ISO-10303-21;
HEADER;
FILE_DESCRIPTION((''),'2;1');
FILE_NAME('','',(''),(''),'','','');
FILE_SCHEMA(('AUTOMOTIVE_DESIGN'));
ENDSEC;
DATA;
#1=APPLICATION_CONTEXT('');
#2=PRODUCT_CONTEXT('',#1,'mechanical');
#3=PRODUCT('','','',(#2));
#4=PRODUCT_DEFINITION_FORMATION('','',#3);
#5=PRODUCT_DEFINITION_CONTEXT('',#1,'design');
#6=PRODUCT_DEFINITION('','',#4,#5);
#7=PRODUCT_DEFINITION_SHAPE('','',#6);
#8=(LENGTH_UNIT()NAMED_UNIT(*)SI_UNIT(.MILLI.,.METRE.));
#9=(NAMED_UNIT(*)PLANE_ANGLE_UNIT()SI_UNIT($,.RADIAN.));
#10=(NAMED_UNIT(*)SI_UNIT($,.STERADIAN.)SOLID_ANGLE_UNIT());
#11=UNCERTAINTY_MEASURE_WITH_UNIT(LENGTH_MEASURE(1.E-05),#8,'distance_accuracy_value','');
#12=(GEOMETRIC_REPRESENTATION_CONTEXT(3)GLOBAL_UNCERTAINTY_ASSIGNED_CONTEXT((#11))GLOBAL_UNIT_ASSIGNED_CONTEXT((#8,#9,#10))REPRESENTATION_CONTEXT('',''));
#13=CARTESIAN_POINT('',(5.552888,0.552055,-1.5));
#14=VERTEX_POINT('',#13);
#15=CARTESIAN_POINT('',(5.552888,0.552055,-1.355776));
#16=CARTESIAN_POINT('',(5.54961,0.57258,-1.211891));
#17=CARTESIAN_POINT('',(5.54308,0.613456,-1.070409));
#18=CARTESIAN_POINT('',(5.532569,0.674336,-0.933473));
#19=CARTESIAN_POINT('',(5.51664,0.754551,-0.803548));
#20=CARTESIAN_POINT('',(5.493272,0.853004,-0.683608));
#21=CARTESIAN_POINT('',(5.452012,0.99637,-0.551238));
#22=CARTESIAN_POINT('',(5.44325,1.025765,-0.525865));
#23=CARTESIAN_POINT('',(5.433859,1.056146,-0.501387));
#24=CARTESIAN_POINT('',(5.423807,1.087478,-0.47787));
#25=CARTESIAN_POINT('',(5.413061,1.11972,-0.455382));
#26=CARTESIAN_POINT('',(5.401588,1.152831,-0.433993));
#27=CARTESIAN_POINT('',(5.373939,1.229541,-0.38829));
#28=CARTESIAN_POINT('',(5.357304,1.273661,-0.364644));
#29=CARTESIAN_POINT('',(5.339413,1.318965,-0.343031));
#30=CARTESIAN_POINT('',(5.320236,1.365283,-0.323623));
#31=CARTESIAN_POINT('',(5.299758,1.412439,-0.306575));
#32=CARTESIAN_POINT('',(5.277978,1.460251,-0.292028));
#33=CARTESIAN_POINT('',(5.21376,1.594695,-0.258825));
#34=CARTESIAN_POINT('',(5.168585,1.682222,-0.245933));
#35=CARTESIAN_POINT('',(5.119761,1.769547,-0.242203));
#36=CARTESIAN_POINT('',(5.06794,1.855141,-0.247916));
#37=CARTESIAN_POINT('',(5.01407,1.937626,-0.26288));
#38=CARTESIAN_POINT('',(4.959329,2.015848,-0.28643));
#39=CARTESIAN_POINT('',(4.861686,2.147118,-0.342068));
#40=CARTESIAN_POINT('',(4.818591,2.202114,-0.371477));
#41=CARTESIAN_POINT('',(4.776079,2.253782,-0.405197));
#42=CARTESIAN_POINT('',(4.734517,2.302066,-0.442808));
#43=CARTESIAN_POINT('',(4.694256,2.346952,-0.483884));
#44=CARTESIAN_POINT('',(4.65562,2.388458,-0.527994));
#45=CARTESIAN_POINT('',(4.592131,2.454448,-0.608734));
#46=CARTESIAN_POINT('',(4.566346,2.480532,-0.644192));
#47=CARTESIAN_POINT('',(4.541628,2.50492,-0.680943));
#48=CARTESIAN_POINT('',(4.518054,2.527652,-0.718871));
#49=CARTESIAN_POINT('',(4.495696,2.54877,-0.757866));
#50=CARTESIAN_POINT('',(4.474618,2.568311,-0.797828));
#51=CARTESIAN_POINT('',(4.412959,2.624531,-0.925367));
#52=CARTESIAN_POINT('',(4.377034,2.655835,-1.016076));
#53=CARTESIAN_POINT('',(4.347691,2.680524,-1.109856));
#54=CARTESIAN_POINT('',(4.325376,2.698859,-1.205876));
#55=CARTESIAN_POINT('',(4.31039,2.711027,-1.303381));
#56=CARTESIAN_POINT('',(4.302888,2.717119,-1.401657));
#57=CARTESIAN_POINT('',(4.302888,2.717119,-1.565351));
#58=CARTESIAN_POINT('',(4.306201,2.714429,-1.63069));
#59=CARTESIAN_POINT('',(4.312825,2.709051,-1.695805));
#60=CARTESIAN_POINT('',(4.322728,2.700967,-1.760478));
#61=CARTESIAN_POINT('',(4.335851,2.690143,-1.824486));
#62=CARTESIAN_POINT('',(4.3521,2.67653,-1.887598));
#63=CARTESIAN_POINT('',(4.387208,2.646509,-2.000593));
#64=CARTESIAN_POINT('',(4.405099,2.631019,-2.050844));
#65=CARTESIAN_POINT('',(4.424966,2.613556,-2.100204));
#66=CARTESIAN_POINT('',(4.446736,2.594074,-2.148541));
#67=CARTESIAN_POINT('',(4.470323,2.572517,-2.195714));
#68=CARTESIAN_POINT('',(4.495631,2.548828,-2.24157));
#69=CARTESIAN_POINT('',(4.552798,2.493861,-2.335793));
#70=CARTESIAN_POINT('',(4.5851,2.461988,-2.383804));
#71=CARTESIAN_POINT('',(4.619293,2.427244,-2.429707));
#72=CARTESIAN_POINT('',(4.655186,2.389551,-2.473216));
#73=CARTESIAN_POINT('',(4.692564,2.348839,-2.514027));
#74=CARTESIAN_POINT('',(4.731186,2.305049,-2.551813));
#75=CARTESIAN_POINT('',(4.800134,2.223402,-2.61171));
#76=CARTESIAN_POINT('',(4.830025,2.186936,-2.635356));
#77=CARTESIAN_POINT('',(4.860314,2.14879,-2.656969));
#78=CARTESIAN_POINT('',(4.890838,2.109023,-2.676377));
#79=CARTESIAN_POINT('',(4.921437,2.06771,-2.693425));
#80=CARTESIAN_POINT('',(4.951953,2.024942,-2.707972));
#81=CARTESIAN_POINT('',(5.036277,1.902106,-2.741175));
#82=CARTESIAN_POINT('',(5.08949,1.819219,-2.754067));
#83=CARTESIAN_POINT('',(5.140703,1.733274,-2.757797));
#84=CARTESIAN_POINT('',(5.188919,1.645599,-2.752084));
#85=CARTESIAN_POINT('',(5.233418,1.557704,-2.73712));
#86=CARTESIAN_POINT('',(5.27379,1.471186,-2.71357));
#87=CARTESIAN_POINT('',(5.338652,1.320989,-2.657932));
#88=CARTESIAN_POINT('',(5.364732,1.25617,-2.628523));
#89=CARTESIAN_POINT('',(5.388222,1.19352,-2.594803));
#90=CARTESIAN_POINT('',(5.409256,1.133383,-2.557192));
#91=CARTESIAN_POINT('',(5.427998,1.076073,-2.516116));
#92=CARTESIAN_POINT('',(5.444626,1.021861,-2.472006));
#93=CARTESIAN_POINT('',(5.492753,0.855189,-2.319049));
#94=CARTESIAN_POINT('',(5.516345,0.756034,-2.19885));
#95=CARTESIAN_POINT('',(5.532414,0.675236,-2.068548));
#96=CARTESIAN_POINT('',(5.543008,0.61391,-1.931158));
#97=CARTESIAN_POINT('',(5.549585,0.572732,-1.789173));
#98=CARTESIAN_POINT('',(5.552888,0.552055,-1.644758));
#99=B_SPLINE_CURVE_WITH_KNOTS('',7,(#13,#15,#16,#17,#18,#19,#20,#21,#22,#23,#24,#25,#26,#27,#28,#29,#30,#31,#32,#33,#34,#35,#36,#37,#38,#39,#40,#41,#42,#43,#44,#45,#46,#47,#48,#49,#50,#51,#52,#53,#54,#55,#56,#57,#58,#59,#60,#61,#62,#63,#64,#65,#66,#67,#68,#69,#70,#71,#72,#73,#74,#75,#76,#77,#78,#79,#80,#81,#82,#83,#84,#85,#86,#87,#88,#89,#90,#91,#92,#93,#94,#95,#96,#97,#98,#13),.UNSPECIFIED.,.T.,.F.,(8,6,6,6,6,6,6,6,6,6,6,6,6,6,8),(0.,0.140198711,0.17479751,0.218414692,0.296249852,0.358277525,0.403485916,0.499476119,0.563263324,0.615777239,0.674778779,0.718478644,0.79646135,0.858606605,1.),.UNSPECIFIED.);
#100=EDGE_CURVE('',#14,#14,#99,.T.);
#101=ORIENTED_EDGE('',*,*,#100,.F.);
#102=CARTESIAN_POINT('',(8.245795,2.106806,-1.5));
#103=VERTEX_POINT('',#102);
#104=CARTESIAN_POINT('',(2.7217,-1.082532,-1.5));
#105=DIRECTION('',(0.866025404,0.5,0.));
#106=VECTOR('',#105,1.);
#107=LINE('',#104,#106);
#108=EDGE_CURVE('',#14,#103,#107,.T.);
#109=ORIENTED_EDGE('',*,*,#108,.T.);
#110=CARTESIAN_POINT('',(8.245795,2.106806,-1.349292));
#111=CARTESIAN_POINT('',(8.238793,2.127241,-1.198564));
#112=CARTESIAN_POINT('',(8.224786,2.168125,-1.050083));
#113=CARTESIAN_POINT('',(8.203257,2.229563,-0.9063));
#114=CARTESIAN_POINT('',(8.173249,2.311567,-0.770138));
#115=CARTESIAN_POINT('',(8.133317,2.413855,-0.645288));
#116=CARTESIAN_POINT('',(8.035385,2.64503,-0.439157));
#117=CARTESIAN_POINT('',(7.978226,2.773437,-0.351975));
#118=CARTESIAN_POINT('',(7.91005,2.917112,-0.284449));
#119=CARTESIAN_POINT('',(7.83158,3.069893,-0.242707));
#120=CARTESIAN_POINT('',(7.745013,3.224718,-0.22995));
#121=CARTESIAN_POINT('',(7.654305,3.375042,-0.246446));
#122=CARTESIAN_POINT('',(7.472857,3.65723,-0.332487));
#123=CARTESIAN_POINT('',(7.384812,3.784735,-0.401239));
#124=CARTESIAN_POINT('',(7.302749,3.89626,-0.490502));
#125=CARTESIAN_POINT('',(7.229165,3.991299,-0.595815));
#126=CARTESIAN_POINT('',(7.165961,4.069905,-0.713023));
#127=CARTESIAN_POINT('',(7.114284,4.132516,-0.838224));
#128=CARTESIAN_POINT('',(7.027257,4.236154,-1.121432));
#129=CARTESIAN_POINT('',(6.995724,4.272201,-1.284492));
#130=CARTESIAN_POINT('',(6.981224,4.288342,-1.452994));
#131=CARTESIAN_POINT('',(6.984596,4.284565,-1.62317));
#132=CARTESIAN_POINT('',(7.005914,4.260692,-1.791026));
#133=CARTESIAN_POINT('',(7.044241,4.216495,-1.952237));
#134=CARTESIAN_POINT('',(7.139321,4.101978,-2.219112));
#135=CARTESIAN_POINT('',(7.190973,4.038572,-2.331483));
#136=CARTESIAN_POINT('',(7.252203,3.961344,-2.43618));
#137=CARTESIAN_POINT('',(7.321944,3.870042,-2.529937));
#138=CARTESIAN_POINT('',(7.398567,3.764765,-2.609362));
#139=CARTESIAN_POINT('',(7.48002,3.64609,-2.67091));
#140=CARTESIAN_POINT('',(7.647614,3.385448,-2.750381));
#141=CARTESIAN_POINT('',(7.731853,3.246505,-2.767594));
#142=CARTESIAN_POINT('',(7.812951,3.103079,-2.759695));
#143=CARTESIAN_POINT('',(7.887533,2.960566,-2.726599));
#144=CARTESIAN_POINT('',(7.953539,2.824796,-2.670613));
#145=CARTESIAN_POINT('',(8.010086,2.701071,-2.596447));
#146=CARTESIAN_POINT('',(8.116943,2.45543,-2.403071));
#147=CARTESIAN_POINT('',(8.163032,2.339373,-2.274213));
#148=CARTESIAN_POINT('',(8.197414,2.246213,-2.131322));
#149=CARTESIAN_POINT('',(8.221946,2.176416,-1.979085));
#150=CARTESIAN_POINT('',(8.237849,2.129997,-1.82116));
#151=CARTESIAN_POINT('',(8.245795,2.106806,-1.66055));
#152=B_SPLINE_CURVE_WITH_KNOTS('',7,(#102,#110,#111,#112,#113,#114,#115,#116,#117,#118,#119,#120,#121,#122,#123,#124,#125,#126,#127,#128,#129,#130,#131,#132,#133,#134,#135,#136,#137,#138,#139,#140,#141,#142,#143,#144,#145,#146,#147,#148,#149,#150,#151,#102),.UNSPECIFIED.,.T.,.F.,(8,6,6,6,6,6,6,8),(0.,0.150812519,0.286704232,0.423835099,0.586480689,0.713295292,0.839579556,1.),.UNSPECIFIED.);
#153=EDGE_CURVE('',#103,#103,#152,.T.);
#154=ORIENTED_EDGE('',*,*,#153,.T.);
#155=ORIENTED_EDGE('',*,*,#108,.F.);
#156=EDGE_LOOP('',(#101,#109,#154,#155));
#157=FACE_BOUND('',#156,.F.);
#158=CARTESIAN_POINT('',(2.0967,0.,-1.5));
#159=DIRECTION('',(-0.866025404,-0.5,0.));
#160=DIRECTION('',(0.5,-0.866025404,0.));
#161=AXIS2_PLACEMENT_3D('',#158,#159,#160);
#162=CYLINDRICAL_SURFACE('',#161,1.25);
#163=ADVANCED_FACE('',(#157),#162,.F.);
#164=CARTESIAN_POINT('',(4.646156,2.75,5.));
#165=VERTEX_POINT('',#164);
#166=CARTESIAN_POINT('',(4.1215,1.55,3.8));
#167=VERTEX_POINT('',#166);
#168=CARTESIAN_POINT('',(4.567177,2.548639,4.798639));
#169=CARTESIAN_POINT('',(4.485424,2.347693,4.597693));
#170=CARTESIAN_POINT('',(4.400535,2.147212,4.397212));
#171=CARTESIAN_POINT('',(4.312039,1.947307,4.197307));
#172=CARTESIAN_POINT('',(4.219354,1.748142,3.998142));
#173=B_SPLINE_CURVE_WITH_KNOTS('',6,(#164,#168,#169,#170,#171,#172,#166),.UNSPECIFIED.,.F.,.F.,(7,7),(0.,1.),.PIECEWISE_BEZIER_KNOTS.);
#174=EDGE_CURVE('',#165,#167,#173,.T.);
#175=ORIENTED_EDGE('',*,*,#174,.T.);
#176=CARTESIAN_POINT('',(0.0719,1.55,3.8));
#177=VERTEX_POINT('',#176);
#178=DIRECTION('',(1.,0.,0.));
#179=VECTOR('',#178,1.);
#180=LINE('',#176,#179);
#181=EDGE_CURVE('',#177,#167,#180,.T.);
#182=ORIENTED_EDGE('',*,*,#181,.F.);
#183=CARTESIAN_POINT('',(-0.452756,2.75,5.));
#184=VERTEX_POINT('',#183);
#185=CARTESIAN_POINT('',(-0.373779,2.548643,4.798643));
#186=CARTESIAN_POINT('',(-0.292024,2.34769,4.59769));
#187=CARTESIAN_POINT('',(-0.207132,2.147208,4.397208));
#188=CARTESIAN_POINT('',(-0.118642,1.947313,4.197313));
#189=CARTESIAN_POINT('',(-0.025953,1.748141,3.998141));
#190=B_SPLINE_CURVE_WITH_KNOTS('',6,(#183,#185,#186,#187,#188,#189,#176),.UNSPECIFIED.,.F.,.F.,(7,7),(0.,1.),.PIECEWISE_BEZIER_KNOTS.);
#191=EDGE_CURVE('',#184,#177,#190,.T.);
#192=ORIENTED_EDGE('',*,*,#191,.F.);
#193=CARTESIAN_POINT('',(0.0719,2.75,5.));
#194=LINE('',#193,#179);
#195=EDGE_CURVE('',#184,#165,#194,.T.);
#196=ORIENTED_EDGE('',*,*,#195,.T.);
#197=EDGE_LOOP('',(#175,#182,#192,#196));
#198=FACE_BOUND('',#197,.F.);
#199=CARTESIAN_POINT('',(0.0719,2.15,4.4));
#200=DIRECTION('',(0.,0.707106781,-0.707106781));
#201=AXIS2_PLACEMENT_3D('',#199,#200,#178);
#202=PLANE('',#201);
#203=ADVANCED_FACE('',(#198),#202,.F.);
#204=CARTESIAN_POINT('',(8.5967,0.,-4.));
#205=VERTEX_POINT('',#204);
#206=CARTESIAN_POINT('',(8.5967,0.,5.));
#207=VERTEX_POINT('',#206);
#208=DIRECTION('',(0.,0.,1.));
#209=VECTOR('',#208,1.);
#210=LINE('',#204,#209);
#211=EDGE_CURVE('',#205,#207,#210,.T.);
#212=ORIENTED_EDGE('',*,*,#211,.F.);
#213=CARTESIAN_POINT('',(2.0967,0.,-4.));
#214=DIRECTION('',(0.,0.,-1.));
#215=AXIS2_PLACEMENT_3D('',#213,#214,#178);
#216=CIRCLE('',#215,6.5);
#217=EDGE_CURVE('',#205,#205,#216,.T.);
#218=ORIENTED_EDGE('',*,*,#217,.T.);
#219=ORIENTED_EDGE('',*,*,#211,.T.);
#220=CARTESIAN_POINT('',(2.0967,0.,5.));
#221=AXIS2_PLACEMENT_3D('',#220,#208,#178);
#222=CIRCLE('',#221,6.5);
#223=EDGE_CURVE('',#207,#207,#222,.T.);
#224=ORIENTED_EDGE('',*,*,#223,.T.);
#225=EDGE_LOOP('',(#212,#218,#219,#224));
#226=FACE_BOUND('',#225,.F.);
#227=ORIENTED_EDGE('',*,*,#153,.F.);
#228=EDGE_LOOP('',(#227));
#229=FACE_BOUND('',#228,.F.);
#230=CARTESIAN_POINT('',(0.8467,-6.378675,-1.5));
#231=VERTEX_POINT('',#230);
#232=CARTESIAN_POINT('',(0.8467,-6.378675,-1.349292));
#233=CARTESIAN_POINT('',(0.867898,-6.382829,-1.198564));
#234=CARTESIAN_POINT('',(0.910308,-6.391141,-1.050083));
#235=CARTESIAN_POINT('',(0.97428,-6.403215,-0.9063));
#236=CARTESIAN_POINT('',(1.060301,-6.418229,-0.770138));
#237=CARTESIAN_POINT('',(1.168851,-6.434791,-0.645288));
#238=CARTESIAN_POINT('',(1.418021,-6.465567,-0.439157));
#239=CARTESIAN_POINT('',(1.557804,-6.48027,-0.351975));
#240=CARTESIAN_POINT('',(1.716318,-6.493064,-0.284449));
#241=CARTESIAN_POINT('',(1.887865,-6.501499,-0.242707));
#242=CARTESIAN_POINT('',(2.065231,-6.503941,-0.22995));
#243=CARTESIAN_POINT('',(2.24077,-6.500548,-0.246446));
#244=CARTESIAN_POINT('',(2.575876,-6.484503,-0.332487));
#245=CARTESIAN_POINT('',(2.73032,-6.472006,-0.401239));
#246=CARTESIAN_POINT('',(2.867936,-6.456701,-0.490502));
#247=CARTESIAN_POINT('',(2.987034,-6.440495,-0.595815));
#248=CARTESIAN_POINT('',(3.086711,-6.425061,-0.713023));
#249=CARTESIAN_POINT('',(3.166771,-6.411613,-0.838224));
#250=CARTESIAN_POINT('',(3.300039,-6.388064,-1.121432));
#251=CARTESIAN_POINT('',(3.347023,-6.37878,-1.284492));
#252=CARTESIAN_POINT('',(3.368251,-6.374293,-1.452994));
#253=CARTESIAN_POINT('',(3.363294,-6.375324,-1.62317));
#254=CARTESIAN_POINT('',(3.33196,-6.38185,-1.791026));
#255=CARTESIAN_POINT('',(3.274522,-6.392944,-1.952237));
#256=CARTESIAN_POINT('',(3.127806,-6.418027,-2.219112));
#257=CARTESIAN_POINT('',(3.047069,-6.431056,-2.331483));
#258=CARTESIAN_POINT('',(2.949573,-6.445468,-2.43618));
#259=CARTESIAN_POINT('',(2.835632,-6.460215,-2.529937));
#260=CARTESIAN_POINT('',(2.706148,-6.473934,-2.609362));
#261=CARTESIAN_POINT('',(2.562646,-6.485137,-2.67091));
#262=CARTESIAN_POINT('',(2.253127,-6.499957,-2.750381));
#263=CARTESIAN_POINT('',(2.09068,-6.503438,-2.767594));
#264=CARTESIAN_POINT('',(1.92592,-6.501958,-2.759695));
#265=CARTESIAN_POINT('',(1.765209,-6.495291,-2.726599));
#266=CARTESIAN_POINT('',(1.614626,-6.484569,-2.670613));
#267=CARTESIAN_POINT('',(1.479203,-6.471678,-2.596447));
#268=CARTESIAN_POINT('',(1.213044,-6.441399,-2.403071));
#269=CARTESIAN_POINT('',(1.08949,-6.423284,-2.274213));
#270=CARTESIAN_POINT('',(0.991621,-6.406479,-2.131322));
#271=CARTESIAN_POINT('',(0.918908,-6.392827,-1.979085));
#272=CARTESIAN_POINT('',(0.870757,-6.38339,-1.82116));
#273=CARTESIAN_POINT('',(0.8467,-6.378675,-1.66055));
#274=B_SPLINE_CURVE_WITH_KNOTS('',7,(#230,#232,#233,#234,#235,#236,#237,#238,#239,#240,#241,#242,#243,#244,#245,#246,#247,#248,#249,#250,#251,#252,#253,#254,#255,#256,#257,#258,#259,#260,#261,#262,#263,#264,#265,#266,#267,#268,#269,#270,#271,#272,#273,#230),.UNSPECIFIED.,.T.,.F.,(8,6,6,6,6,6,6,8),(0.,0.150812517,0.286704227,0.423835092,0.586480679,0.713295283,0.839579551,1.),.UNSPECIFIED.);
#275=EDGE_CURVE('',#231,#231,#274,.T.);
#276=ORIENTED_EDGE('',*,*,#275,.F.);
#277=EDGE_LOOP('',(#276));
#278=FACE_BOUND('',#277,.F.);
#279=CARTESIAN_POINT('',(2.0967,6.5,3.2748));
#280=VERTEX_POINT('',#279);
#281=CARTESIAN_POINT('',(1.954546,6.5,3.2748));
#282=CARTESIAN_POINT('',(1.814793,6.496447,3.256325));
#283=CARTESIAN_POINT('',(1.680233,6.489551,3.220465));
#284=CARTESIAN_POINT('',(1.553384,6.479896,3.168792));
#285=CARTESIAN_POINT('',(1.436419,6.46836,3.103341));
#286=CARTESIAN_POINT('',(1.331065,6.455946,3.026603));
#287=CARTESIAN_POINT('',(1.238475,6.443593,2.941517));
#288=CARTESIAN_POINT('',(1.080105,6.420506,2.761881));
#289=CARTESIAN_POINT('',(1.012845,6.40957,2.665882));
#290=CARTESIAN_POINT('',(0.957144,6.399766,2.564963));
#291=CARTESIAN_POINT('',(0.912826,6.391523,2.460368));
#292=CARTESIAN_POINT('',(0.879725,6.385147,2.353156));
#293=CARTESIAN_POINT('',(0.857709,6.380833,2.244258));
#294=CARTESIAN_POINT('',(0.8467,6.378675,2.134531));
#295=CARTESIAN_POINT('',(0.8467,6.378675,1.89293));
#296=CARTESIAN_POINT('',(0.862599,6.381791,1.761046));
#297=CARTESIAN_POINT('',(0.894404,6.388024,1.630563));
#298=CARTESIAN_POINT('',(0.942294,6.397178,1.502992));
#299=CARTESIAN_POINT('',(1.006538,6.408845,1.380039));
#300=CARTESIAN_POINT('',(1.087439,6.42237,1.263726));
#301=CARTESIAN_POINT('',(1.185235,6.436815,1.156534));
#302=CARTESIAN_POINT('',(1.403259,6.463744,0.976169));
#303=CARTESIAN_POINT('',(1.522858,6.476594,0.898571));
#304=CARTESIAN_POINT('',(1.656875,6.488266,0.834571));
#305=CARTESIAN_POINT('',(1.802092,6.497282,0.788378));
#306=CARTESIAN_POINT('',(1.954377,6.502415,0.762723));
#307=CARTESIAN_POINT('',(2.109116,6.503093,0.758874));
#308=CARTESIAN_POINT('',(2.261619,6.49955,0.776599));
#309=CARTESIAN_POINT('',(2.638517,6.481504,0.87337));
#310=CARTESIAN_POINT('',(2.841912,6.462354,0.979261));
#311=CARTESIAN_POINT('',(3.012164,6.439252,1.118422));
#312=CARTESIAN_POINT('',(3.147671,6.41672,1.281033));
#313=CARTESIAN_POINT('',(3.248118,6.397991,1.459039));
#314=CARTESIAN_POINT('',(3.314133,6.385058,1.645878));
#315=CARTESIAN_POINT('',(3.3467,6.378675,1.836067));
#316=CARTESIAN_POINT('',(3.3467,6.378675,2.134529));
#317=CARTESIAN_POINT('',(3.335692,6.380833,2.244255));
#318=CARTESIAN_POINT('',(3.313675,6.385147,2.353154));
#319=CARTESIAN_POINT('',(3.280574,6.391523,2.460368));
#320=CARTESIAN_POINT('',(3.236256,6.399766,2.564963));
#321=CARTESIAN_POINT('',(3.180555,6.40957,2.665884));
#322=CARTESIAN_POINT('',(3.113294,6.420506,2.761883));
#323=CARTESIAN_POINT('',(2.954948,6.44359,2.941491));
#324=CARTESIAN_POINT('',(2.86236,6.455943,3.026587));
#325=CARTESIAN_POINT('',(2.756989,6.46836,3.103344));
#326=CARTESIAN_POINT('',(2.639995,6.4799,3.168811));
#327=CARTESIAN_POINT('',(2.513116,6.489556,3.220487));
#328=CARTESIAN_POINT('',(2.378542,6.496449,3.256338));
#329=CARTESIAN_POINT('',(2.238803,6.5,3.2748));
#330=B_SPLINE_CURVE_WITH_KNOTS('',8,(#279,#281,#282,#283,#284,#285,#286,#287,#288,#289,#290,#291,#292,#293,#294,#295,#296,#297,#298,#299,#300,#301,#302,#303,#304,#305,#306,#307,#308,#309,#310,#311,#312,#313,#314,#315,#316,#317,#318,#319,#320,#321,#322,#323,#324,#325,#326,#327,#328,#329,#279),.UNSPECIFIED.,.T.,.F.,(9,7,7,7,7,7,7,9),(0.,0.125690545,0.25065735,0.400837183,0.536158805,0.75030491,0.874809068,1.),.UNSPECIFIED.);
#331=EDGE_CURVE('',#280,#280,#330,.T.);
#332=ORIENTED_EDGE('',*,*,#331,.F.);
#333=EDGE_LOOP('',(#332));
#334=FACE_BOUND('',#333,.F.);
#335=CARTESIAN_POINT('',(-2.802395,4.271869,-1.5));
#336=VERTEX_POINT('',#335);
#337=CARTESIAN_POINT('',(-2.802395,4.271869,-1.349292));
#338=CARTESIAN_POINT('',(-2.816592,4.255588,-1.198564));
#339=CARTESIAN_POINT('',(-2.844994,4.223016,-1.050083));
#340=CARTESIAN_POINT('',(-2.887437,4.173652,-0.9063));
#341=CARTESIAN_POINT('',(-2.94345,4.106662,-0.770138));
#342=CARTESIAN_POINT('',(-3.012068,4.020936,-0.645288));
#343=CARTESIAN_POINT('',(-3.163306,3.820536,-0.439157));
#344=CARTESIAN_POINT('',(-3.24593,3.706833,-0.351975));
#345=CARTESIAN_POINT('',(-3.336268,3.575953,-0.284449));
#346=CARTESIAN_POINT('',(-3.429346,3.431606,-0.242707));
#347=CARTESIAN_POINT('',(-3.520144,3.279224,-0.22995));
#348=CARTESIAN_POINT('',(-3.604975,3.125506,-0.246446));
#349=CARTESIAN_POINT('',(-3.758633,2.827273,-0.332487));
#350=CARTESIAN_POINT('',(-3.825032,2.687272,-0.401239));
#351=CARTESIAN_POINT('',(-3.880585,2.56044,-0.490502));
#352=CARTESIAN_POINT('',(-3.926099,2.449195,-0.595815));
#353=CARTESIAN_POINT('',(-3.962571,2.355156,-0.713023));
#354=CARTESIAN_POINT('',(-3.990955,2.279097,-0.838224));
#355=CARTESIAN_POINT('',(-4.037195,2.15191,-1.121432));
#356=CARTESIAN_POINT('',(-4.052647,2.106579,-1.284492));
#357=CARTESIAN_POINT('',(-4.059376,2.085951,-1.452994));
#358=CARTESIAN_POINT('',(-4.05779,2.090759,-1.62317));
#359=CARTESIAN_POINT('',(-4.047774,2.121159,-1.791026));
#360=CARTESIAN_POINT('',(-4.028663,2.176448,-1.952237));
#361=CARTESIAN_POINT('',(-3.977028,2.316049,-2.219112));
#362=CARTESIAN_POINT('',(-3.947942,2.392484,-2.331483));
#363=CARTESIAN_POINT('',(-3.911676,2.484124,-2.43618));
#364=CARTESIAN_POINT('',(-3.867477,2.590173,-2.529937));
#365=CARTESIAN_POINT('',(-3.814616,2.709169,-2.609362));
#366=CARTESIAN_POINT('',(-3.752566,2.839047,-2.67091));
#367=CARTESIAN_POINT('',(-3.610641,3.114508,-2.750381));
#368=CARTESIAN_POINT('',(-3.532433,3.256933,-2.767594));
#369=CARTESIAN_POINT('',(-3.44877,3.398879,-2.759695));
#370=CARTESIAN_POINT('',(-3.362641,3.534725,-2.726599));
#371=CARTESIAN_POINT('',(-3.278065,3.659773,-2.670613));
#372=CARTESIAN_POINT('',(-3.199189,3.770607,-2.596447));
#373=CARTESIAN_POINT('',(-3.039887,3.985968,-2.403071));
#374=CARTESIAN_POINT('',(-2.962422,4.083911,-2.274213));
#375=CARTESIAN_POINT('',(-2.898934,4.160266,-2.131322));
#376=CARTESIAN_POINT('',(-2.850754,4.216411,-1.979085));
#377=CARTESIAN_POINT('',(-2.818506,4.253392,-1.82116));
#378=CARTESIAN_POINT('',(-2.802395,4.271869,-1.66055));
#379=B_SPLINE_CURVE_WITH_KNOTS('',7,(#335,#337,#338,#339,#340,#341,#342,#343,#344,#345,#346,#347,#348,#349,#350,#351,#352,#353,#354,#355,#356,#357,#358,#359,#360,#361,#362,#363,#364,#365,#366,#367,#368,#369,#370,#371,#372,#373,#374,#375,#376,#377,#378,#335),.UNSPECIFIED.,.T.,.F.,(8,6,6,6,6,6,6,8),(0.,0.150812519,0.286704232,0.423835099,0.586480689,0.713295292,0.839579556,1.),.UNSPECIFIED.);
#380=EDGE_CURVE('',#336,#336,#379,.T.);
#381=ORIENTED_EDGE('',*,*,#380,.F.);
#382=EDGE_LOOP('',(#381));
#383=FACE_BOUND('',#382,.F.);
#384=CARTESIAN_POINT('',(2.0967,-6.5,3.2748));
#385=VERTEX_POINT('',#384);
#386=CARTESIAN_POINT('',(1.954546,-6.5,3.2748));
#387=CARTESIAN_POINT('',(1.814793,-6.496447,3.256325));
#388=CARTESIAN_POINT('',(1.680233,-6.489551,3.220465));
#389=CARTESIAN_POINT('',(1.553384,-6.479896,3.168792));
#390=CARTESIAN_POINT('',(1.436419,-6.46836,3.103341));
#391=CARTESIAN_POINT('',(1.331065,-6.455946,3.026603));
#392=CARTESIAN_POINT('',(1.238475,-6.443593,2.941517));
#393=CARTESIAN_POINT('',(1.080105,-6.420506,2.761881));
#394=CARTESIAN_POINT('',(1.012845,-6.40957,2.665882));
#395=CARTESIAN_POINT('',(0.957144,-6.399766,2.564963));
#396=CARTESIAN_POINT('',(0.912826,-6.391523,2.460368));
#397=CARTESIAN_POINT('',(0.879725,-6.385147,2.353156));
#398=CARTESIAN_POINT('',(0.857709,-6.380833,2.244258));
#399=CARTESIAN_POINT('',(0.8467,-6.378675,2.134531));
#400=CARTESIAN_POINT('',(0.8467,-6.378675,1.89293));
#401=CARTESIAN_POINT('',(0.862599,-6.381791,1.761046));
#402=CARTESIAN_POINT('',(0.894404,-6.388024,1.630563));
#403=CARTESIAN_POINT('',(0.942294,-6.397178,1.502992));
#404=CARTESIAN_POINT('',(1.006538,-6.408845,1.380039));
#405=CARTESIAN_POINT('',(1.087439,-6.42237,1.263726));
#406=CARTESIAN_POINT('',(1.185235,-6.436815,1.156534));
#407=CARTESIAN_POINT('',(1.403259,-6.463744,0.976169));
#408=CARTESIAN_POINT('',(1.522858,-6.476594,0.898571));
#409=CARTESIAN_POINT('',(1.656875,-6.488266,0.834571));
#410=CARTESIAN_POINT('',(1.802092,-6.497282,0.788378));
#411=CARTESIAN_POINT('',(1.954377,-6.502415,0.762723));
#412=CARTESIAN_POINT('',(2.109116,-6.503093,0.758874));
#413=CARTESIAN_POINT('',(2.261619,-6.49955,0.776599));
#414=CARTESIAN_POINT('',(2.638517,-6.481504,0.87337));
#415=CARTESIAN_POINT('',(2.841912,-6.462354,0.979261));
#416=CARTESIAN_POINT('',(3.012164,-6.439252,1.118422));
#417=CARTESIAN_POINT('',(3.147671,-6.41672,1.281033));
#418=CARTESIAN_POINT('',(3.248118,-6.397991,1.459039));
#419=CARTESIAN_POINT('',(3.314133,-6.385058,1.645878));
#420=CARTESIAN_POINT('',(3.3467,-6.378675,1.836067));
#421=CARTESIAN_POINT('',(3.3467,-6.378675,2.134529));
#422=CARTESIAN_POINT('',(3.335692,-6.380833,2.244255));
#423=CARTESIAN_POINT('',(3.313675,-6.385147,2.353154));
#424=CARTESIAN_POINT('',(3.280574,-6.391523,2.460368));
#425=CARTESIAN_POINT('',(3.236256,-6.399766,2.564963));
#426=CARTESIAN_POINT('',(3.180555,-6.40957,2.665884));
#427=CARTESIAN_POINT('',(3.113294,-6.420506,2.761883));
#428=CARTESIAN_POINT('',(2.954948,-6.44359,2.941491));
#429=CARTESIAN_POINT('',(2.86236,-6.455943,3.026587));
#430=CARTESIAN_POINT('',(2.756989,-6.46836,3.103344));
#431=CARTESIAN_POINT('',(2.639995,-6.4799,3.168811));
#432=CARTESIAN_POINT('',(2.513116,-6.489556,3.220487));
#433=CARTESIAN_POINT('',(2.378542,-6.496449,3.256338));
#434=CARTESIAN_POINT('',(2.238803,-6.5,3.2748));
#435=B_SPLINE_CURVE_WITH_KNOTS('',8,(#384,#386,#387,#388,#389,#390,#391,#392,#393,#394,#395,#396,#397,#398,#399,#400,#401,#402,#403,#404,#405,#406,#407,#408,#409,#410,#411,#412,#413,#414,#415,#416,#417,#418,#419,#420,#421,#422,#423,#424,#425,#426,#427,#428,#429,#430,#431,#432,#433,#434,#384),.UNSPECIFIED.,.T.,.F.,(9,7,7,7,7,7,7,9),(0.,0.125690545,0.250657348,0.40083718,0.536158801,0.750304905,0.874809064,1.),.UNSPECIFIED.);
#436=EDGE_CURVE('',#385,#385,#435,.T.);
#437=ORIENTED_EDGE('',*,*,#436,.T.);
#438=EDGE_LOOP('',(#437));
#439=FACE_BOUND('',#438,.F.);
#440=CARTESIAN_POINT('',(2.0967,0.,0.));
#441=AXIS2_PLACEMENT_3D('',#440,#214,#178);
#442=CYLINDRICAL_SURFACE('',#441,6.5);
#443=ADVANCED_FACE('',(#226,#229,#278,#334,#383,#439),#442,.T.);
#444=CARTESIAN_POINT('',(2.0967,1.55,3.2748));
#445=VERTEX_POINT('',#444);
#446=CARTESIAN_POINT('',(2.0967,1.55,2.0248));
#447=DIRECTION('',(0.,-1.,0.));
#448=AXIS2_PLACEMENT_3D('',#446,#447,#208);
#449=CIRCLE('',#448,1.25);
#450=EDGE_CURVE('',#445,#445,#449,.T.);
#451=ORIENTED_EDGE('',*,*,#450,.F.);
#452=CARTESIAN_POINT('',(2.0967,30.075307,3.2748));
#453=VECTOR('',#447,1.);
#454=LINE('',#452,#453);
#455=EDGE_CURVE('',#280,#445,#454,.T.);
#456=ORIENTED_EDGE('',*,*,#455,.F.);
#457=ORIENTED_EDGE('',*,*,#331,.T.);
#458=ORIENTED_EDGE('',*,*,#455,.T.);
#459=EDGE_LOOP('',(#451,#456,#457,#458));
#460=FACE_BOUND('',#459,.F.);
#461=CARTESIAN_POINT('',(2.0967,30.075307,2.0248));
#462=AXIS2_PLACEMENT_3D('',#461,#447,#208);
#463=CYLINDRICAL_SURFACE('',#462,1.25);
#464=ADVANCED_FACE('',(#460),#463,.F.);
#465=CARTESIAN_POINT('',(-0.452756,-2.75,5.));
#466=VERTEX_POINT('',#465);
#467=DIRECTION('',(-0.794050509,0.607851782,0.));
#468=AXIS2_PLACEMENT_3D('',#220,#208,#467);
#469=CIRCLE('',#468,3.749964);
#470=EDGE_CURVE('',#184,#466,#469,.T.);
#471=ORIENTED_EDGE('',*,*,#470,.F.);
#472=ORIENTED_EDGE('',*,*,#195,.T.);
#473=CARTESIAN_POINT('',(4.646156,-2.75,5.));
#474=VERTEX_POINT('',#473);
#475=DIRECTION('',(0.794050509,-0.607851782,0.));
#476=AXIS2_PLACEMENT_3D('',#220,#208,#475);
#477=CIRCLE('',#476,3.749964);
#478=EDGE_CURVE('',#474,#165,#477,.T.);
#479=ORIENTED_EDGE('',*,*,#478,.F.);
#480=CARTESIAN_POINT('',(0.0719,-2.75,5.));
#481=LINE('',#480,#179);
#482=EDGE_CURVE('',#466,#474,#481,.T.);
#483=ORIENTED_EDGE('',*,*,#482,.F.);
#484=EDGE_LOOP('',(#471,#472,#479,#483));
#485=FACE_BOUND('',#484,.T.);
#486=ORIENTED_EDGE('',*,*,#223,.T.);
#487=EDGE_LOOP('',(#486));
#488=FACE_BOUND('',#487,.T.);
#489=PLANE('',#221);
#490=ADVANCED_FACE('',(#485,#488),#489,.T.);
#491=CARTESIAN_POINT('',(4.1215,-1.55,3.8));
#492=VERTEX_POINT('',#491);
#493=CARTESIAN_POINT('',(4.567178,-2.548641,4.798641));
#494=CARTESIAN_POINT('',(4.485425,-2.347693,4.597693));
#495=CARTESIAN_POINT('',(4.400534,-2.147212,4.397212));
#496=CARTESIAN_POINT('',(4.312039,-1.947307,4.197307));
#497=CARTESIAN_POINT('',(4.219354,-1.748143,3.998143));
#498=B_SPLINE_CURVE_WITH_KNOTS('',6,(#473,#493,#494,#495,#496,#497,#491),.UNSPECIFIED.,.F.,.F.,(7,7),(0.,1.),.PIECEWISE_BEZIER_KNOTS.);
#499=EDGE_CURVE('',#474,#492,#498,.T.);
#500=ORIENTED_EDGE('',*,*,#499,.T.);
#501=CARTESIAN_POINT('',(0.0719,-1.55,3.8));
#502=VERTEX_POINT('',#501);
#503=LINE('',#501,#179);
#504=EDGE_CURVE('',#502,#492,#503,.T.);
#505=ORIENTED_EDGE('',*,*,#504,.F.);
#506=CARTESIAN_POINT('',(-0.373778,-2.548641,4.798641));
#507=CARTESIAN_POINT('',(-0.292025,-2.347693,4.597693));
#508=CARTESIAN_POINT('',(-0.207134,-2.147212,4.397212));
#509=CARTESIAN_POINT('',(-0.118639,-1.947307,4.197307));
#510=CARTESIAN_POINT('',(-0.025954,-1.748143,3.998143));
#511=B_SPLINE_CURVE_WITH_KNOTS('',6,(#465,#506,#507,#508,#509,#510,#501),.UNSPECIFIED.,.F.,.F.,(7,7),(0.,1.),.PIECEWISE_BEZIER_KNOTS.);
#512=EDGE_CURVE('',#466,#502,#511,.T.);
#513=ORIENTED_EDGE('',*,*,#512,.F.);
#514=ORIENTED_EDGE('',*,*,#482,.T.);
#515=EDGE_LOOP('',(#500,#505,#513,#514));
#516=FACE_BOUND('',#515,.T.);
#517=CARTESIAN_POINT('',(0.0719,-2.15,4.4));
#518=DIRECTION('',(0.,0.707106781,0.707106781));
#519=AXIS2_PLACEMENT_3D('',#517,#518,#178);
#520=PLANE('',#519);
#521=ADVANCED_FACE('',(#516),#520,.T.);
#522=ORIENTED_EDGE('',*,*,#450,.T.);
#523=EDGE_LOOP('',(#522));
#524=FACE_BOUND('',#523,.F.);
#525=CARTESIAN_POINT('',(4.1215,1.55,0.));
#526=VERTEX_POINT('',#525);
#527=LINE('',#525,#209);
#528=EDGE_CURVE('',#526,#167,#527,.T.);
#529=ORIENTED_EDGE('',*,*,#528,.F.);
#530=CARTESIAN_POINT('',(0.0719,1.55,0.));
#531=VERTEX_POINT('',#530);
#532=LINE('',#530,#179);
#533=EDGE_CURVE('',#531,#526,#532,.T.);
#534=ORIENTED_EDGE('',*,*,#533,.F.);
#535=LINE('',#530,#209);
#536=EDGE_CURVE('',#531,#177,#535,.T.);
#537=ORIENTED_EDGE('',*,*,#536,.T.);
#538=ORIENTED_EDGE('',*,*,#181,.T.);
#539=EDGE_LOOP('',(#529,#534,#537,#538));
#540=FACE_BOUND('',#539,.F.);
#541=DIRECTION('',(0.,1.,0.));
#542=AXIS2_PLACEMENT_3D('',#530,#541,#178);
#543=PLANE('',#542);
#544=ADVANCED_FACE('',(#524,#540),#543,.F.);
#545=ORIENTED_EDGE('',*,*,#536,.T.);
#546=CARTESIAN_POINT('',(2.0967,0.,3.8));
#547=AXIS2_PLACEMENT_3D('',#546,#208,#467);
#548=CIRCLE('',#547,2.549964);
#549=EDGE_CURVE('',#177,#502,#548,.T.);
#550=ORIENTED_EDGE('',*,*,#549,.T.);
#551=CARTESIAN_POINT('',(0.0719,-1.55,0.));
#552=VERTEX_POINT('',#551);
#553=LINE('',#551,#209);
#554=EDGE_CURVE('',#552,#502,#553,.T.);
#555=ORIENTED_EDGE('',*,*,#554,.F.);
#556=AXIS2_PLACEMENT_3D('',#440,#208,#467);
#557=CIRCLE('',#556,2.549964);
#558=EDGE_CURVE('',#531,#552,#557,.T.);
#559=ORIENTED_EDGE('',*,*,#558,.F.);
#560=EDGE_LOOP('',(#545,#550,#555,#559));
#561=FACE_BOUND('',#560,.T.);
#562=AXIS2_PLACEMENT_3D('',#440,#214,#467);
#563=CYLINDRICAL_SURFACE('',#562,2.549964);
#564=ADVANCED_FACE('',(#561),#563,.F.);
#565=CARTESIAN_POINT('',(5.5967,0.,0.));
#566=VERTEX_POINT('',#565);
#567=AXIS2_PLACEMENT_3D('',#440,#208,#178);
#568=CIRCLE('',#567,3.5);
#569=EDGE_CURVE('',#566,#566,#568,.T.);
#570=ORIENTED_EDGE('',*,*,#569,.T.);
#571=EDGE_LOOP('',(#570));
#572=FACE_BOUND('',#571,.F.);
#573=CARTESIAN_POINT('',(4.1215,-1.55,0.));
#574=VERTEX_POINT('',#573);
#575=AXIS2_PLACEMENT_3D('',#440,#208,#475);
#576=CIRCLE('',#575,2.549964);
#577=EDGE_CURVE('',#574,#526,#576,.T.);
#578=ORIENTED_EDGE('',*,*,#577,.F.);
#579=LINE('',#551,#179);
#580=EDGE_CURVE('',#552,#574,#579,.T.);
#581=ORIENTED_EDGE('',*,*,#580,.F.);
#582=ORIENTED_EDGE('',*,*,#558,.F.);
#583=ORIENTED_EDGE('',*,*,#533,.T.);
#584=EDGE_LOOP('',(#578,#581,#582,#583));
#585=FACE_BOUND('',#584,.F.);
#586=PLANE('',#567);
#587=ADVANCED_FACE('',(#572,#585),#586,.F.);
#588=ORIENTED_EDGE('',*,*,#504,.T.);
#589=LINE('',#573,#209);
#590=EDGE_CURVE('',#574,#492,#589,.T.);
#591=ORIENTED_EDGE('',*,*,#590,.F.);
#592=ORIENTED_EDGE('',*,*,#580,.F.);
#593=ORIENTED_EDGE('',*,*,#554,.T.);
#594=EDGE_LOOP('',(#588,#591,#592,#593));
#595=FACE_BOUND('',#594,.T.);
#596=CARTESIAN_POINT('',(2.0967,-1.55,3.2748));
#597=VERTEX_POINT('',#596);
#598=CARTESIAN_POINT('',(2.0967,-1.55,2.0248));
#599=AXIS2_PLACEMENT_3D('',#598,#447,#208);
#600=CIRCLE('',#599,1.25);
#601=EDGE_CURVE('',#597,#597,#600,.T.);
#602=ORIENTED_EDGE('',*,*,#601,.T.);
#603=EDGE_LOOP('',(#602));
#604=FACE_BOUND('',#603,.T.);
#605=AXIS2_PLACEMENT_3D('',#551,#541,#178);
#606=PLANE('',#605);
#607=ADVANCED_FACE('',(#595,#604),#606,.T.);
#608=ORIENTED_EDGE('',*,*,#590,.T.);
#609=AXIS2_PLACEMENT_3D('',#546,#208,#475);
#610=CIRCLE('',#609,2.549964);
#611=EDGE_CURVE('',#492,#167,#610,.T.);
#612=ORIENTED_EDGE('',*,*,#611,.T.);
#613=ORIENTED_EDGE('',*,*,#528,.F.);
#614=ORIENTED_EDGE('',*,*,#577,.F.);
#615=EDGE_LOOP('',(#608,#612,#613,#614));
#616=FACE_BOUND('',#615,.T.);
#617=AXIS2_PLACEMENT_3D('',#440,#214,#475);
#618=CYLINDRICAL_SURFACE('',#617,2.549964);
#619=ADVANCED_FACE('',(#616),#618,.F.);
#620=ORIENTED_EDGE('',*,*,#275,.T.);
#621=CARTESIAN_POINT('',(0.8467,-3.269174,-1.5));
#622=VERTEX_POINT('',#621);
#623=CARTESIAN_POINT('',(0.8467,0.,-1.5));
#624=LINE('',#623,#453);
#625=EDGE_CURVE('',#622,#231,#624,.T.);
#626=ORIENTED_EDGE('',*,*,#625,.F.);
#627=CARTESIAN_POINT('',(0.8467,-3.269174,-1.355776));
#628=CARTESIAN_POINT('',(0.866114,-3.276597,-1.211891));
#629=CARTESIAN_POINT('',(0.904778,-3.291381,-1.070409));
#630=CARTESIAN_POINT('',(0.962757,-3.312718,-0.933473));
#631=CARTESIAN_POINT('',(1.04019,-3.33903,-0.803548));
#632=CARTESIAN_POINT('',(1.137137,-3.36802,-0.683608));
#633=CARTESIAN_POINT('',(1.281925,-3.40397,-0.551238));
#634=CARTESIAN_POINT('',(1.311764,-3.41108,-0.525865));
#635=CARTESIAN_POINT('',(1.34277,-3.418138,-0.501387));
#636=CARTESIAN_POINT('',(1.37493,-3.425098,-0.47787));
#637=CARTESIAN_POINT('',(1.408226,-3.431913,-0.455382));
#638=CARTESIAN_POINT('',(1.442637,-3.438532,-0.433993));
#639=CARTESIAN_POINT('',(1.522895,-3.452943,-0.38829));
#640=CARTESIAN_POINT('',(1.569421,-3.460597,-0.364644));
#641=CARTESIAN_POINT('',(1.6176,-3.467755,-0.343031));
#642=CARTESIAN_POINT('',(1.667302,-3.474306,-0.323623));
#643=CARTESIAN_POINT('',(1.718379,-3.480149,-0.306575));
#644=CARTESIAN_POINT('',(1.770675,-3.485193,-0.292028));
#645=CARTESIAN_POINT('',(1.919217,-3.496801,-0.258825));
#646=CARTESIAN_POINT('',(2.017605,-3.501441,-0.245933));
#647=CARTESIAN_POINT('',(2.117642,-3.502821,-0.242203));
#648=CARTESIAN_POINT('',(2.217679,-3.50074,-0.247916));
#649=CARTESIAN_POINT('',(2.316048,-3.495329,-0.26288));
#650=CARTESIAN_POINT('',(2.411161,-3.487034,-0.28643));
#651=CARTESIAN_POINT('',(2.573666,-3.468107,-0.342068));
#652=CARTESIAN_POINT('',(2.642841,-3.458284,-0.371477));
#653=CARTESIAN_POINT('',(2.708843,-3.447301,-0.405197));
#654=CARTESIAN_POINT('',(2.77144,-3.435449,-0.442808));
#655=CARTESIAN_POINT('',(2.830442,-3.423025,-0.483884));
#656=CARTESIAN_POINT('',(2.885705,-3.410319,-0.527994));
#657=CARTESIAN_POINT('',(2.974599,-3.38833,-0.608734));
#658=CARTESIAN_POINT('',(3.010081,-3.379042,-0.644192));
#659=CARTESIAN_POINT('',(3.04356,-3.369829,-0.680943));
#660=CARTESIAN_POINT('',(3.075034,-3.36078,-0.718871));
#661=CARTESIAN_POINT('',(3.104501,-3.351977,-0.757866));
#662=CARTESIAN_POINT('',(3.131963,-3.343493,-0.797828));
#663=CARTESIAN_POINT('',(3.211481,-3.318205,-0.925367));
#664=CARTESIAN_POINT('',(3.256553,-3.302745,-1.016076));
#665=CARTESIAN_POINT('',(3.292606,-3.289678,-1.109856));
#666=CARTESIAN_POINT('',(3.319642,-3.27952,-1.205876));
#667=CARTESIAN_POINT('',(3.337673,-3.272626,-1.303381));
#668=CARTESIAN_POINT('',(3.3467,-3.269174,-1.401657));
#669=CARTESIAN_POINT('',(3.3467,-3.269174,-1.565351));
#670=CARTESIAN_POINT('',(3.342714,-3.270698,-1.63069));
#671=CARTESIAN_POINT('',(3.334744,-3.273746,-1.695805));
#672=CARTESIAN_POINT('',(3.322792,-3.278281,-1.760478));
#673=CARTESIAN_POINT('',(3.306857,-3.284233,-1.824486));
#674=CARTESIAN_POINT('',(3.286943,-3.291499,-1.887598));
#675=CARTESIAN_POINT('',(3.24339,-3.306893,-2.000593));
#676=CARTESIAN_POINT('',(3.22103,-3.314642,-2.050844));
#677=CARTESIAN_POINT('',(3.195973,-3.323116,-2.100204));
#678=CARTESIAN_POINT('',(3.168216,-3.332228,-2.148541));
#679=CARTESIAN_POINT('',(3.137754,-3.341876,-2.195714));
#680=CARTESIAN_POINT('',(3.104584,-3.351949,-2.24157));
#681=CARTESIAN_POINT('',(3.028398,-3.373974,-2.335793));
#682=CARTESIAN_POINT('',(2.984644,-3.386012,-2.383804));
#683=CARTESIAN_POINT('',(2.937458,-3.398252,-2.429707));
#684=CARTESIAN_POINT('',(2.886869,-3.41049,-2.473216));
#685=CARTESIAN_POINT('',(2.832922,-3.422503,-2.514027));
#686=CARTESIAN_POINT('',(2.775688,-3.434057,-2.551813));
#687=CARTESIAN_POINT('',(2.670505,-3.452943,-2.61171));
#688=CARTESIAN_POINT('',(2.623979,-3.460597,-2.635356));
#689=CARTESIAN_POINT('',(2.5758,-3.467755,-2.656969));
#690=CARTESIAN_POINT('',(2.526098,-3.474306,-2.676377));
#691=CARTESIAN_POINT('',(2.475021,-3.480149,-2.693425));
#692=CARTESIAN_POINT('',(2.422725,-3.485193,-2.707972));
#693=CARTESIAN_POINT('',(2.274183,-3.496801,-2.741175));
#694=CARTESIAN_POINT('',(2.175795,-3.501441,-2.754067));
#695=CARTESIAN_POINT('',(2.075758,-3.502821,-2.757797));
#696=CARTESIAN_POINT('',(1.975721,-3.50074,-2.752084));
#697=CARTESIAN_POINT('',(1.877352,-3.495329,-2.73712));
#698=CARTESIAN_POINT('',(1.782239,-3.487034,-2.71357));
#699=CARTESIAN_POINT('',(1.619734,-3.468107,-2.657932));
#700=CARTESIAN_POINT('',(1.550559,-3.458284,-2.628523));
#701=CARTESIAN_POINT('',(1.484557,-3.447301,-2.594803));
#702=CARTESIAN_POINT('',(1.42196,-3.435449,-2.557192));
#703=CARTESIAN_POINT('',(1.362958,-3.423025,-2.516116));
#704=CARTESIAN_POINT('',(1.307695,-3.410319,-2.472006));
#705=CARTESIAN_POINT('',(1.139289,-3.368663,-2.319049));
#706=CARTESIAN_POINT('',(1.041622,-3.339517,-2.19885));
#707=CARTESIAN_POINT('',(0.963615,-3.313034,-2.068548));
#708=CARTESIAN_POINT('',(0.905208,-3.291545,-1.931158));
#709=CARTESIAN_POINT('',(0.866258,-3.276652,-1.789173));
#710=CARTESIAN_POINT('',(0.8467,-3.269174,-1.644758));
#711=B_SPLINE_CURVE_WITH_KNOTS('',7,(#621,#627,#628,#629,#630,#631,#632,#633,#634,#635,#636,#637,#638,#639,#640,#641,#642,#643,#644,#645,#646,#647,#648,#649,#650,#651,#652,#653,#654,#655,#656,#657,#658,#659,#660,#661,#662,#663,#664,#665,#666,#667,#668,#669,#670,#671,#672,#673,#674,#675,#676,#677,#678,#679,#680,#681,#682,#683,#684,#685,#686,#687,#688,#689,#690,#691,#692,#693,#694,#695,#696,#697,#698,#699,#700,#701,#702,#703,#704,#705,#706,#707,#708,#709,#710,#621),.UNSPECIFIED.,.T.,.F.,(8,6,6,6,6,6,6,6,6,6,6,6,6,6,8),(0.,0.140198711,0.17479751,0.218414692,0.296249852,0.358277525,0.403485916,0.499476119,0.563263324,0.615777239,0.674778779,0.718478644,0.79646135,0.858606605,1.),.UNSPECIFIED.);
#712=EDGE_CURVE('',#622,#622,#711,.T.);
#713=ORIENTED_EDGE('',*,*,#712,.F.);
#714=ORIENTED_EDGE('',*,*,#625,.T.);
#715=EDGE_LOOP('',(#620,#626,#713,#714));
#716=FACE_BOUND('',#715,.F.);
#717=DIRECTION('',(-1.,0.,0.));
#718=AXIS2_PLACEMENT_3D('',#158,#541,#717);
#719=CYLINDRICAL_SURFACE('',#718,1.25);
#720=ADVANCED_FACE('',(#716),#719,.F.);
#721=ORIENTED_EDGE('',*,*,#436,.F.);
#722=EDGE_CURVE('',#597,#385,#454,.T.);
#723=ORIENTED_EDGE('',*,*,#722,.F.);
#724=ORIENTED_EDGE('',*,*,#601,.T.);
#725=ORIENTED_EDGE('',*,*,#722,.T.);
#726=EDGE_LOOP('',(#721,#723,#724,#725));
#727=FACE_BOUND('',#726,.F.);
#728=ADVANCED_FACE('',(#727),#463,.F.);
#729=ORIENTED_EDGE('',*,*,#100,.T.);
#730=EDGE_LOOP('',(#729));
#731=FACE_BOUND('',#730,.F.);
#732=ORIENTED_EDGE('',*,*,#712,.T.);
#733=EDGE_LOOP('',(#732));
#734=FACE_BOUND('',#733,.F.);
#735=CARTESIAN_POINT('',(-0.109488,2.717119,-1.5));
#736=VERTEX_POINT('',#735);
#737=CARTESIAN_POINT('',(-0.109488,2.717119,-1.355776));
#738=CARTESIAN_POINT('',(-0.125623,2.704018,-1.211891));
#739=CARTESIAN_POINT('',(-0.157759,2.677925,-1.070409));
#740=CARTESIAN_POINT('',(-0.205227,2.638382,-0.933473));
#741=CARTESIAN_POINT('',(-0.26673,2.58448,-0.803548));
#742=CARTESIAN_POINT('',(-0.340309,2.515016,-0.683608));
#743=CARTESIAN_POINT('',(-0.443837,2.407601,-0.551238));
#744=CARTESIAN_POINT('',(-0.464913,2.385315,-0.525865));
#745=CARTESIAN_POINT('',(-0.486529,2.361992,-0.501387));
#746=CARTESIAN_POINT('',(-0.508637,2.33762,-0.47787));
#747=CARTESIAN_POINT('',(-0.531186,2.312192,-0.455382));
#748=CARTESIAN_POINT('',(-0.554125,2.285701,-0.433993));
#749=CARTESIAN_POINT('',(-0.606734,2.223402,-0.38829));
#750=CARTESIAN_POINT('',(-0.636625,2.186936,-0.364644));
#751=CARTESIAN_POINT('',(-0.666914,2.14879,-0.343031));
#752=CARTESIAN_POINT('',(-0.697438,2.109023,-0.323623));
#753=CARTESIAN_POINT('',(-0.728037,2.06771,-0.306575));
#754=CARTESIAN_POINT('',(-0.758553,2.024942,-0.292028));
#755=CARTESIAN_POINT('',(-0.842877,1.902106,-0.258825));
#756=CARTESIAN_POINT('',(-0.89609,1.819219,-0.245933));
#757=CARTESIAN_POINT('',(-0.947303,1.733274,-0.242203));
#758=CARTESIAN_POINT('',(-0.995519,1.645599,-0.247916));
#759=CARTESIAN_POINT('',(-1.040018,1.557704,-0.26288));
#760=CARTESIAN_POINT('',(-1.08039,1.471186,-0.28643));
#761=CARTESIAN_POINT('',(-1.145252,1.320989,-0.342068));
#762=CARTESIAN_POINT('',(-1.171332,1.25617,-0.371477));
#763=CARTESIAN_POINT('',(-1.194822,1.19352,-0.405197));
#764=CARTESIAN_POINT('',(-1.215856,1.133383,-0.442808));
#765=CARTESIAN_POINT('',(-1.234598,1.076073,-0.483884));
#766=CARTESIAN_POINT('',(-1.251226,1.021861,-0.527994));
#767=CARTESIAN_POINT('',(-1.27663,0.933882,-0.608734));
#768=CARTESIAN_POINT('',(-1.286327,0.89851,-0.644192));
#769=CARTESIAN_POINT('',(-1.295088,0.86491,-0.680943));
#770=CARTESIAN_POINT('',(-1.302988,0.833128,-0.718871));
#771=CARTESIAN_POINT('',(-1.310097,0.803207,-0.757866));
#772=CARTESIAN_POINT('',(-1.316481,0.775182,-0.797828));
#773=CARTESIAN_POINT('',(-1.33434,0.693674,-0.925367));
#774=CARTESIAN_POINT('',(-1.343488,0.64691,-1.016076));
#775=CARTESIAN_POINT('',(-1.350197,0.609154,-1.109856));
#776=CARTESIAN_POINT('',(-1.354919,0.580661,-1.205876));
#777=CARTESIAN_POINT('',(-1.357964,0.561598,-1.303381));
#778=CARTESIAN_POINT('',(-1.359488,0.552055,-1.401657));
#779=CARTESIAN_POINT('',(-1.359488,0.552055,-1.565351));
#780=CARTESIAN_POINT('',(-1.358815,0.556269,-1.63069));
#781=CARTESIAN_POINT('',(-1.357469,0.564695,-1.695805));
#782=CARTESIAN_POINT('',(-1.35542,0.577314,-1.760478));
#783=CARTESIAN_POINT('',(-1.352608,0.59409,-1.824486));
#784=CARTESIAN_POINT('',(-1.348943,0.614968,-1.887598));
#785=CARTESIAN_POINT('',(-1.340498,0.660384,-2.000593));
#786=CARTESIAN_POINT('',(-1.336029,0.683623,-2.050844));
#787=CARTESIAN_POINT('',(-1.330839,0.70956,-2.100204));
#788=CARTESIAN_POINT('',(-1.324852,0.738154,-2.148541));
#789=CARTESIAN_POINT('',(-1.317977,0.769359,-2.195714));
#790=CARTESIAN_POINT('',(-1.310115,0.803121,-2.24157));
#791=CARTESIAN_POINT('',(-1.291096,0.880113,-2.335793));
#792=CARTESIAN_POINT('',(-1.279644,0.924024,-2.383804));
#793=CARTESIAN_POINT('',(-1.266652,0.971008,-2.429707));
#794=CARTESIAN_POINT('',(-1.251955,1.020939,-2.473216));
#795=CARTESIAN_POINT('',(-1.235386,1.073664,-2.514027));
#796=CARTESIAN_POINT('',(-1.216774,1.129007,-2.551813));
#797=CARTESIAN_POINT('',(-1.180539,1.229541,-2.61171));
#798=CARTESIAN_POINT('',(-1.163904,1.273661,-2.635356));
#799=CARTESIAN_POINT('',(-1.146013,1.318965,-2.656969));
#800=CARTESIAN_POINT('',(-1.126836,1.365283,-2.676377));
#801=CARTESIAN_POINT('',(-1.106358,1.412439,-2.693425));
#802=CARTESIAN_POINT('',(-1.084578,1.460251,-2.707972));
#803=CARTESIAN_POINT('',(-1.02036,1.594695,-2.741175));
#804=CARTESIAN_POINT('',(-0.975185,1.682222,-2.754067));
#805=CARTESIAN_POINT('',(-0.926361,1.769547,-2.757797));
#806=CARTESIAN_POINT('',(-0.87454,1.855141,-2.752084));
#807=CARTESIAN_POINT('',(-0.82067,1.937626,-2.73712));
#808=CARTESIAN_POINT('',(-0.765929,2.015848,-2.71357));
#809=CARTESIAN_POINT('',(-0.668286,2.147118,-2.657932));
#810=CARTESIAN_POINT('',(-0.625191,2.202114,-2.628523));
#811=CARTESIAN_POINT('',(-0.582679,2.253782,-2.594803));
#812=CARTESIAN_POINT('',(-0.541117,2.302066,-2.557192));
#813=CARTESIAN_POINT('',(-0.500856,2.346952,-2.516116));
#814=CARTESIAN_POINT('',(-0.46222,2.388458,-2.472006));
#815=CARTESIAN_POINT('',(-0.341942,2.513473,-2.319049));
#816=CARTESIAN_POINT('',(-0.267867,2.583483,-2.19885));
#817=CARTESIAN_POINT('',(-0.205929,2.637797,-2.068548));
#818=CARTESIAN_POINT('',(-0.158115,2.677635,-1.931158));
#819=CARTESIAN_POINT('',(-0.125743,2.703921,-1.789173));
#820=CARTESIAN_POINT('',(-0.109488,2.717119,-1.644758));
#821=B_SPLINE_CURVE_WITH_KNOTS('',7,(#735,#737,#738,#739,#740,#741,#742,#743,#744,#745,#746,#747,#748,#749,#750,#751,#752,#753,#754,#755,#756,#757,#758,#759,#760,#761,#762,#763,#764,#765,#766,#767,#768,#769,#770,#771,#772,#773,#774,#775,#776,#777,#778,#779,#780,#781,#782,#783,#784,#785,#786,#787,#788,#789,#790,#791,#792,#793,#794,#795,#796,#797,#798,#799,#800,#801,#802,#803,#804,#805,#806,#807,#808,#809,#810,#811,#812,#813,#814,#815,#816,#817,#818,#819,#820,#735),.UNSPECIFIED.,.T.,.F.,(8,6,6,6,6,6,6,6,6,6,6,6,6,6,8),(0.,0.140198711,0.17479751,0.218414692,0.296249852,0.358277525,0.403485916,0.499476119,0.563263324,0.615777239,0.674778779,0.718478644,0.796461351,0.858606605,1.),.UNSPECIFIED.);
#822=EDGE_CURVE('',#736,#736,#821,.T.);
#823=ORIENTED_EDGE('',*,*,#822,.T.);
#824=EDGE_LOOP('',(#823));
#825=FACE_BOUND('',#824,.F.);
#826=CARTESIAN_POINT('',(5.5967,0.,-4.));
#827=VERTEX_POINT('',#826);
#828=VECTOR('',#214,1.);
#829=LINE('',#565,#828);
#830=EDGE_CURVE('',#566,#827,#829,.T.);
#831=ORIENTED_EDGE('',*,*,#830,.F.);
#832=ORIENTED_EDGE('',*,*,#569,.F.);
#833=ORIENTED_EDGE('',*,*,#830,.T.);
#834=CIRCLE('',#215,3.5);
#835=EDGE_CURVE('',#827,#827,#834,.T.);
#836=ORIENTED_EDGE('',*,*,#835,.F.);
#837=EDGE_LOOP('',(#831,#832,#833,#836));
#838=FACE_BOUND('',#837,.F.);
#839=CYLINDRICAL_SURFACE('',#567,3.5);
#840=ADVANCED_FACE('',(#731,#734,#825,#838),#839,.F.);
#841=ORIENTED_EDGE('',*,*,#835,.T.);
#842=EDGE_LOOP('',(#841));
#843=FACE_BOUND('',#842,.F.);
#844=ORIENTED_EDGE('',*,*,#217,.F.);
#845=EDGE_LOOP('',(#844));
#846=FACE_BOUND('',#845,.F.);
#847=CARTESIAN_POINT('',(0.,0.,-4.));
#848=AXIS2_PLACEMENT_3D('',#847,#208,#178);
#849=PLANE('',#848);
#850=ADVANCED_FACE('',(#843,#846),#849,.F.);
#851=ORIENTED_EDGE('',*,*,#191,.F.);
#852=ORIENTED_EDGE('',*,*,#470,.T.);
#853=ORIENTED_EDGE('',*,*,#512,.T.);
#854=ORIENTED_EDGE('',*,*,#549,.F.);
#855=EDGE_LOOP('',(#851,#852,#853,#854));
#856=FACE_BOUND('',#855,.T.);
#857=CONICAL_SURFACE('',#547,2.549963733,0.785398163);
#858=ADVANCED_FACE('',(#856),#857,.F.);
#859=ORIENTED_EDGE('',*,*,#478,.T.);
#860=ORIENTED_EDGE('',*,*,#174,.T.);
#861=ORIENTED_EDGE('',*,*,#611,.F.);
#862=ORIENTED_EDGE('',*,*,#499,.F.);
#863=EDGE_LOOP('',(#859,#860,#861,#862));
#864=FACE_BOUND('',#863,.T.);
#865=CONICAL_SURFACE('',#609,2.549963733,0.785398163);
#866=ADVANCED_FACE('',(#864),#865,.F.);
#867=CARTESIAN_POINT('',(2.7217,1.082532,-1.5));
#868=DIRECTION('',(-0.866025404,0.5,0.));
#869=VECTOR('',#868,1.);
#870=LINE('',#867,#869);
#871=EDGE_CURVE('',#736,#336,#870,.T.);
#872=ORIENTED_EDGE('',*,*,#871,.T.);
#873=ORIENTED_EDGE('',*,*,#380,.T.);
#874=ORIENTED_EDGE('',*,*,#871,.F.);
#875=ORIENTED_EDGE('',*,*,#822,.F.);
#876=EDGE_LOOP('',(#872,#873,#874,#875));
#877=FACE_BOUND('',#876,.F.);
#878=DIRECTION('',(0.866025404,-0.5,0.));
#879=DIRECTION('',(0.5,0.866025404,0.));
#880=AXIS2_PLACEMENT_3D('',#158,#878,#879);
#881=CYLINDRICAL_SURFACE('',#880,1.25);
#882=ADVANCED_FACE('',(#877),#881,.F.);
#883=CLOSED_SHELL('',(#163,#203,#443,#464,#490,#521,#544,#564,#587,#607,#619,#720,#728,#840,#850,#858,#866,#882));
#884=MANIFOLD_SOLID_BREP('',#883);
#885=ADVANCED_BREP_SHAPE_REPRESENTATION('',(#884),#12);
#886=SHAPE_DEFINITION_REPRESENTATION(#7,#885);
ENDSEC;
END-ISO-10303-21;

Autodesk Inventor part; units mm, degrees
ref_plane "YZ Plane" through (0, 0, 0) normal (1, 0, 0) x (0, 1, 0)
ref_plane "XZ Plane" through (0, 0, 0) normal (0, 1, 0) x (-1, 0, 0)
sketch "Sketch1" plane through (0, 0, 0) normal (0, 0, 1) x (1, 0, 0)
  line L0 (0.8467, -0.7217) -> (0.8467, 0.7217) construction
  line L1 (0.8467, 0.7217) -> (2.0967, 1.4434) construction
  line L2 (2.0967, 1.4434) -> (3.3467, 0.7217) construction
  line L3 (3.3467, 0.7217) -> (3.3467, -0.7217) construction
  line L4 (3.3467, -0.7217) -> (2.0967, -1.4434) construction
  line L5 (2.0967, -1.4434) -> (0.8467, -0.7217) construction
  circle A0 centre (2.0967, 0) radius 2.45 construction
  line L6 (4.8467, -1.5877) -> (3.4717, -2.3816) construction
  line L7 (15.0967, 3) -> (15.0967, -3) construction
  line L8 (-10.9033, 3) -> (-10.9033, -3) construction
  line L9 (-0.6533, 0) -> (-0.6533, 1.5877) construction
  circle A1 centre (2.0967, 0) radius 5
  circle A2 centre (2.0967, 0) radius 1.7 projected
  line L10 (-10.9033, -3) -> (15.0967, -3) projected
  line L11 (-10.9033, 3) -> (15.0967, 3) projected
  circle A3 centre (2.0967, 0) radius 3.5
  circle A4 centre (2.0967, 0) radius 6.5
  point P0 (0.4719, -0.5)
  point P1 (3.7215, -0.5)
  dimension "d10" = 7
  dimension "d13" = 13
ref_plane "Work Plane1" through (-20.8033, -6.3, -5.9) normal (0, 0, 1) x (1, 0, 0)
extrude "Extrusion1" add sketch "Sketch1" against normal blind 4 contours A1 L10 A3 L11 | A1 L11 A4 L10 | L11 A3 A1 | A1 L11 A4 | L10 A4 A1 | A1 L10 A3 | L11 A3 L10 A1 | A1 L10 A4 L11
sketch "Sketch2" plane through (2.0967, 0, 0) normal (0, 0, 1) x (1, 0, 0)
  line L0 (-2, 1.5) -> (2, 1.5) construction
  arc A0 (2.5, 0) -> (2, 1.5) centre (0, 0) ccw construction
  arc A1 (-2, 1.5) -> (-2.5, 0) centre (0, 0) ccw construction
  line L1 (2, -1.5) -> (-2, -1.5) construction
  arc A2 (-2.5, 0) -> (2.5, 0) centre (0, 0) ccw construction
  line L2 (2.0248, 1.55) -> (-2.0248, 1.55) construction
  arc A3 (-2.0248, 1.55) -> (-2.55, 0) centre (0, 0) ccw construction
  arc A4 (-2.55, 0) -> (2.55, 0) centre (0, 0) ccw construction
  arc A5 (2.55, 0) -> (2.0248, 1.55) centre (0, 0) ccw construction
  line L3 (-2.0248, 1.55) -> (2.0248, 1.55) construction
  line L4 (-2.0248, 1.55) -> (2.0248, 1.55)
  line L5 (-2.0248, -1.55) -> (2.0248, -1.55)
  arc A6 (-2.0248, 1.55) -> (-2.0248, -1.55) centre (0, 0) ccw
  arc A7 (2.0248, -1.55) -> (2.0248, 1.55) centre (0, 0) ccw
  circle A8 centre (0, 0) radius 6.5 projected
  point P0 (-2.0967, 0)
  dimension "d11" = 3.1
  dimension "d12" = 2.55
extrude "Extrusion2" add sketch "Sketch2" along normal blind 5
chamfer "Chamfer1" distance 1.2 angle 45 4 edges at (2.0967, 1.55, 5) (-0.4533, 0, 5) (2.0967, -1.55, 5) (4.6467, 0, 5)
sketch "Sketch3" plane through (0, 0, 0) normal (0, 1, 0) x (-1, 0, 0)
  line L0 (-4.6467, 0) -> (-4.6467, 3.8) projected
  line L1 (0.4533, 0) -> (0.4533, 3.8) projected
  line L2 (-8.5967, -4) -> (4.4033, -4) projected
  circle A0 centre (-2.0967, -1.5) radius 1.25
  line L3 (-8.5967, -4) -> (4.4033, -4) projected
  point P0 (0, 0)
  point P1 (-8.5967, 0)
  point P2 (4.4033, 0)
  dimension "d14" = 2.5
  dimension "d15" = 2.5
extrude "Extrusion3" cut sketch "Sketch3" against normal blind 10
pattern_circular "Circular Pattern1" count 3 over 360 about axis through (2.0967, 0, 0) along (0, 0, -1) of "Extrusion3"
sketch "Sketch4" plane through (0.0718, -1.55, 0) normal (0, 1, 0) x (1, 0, 0)
  line L0 (0, -3.8) -> (4.0497, -3.8) projected
  line L1 (-4.4752, -5) -> (8.5248, -5) projected
  line L2 (8.5248, 4) -> (-4.4752, 4) projected
  line L3 (4.0497, -3.8) -> (0, -3.8) projected
  line L4 (4.0497, 0) -> (4.0497, -3.8) projected
  line L5 (0, 0) -> (4.0497, 0) projected
  line L6 (0, 0) -> (0, -3.8) projected
  circle A0 centre (2.0248, -2.0248) radius 2.0248
  point P0 (-0.0718, 0)
  point P1 (8.1739, 1.5)
  point P2 (-2.8742, 1.5)
  point P3 (0.7748, 1.5)
hole "Hole1" at (2.0967, -1.55, 2.0248) direction (0, -1, 0) diameter 2.5 end through all both
properties part number "01_28BYJ_Coupling_ScrewM4"
